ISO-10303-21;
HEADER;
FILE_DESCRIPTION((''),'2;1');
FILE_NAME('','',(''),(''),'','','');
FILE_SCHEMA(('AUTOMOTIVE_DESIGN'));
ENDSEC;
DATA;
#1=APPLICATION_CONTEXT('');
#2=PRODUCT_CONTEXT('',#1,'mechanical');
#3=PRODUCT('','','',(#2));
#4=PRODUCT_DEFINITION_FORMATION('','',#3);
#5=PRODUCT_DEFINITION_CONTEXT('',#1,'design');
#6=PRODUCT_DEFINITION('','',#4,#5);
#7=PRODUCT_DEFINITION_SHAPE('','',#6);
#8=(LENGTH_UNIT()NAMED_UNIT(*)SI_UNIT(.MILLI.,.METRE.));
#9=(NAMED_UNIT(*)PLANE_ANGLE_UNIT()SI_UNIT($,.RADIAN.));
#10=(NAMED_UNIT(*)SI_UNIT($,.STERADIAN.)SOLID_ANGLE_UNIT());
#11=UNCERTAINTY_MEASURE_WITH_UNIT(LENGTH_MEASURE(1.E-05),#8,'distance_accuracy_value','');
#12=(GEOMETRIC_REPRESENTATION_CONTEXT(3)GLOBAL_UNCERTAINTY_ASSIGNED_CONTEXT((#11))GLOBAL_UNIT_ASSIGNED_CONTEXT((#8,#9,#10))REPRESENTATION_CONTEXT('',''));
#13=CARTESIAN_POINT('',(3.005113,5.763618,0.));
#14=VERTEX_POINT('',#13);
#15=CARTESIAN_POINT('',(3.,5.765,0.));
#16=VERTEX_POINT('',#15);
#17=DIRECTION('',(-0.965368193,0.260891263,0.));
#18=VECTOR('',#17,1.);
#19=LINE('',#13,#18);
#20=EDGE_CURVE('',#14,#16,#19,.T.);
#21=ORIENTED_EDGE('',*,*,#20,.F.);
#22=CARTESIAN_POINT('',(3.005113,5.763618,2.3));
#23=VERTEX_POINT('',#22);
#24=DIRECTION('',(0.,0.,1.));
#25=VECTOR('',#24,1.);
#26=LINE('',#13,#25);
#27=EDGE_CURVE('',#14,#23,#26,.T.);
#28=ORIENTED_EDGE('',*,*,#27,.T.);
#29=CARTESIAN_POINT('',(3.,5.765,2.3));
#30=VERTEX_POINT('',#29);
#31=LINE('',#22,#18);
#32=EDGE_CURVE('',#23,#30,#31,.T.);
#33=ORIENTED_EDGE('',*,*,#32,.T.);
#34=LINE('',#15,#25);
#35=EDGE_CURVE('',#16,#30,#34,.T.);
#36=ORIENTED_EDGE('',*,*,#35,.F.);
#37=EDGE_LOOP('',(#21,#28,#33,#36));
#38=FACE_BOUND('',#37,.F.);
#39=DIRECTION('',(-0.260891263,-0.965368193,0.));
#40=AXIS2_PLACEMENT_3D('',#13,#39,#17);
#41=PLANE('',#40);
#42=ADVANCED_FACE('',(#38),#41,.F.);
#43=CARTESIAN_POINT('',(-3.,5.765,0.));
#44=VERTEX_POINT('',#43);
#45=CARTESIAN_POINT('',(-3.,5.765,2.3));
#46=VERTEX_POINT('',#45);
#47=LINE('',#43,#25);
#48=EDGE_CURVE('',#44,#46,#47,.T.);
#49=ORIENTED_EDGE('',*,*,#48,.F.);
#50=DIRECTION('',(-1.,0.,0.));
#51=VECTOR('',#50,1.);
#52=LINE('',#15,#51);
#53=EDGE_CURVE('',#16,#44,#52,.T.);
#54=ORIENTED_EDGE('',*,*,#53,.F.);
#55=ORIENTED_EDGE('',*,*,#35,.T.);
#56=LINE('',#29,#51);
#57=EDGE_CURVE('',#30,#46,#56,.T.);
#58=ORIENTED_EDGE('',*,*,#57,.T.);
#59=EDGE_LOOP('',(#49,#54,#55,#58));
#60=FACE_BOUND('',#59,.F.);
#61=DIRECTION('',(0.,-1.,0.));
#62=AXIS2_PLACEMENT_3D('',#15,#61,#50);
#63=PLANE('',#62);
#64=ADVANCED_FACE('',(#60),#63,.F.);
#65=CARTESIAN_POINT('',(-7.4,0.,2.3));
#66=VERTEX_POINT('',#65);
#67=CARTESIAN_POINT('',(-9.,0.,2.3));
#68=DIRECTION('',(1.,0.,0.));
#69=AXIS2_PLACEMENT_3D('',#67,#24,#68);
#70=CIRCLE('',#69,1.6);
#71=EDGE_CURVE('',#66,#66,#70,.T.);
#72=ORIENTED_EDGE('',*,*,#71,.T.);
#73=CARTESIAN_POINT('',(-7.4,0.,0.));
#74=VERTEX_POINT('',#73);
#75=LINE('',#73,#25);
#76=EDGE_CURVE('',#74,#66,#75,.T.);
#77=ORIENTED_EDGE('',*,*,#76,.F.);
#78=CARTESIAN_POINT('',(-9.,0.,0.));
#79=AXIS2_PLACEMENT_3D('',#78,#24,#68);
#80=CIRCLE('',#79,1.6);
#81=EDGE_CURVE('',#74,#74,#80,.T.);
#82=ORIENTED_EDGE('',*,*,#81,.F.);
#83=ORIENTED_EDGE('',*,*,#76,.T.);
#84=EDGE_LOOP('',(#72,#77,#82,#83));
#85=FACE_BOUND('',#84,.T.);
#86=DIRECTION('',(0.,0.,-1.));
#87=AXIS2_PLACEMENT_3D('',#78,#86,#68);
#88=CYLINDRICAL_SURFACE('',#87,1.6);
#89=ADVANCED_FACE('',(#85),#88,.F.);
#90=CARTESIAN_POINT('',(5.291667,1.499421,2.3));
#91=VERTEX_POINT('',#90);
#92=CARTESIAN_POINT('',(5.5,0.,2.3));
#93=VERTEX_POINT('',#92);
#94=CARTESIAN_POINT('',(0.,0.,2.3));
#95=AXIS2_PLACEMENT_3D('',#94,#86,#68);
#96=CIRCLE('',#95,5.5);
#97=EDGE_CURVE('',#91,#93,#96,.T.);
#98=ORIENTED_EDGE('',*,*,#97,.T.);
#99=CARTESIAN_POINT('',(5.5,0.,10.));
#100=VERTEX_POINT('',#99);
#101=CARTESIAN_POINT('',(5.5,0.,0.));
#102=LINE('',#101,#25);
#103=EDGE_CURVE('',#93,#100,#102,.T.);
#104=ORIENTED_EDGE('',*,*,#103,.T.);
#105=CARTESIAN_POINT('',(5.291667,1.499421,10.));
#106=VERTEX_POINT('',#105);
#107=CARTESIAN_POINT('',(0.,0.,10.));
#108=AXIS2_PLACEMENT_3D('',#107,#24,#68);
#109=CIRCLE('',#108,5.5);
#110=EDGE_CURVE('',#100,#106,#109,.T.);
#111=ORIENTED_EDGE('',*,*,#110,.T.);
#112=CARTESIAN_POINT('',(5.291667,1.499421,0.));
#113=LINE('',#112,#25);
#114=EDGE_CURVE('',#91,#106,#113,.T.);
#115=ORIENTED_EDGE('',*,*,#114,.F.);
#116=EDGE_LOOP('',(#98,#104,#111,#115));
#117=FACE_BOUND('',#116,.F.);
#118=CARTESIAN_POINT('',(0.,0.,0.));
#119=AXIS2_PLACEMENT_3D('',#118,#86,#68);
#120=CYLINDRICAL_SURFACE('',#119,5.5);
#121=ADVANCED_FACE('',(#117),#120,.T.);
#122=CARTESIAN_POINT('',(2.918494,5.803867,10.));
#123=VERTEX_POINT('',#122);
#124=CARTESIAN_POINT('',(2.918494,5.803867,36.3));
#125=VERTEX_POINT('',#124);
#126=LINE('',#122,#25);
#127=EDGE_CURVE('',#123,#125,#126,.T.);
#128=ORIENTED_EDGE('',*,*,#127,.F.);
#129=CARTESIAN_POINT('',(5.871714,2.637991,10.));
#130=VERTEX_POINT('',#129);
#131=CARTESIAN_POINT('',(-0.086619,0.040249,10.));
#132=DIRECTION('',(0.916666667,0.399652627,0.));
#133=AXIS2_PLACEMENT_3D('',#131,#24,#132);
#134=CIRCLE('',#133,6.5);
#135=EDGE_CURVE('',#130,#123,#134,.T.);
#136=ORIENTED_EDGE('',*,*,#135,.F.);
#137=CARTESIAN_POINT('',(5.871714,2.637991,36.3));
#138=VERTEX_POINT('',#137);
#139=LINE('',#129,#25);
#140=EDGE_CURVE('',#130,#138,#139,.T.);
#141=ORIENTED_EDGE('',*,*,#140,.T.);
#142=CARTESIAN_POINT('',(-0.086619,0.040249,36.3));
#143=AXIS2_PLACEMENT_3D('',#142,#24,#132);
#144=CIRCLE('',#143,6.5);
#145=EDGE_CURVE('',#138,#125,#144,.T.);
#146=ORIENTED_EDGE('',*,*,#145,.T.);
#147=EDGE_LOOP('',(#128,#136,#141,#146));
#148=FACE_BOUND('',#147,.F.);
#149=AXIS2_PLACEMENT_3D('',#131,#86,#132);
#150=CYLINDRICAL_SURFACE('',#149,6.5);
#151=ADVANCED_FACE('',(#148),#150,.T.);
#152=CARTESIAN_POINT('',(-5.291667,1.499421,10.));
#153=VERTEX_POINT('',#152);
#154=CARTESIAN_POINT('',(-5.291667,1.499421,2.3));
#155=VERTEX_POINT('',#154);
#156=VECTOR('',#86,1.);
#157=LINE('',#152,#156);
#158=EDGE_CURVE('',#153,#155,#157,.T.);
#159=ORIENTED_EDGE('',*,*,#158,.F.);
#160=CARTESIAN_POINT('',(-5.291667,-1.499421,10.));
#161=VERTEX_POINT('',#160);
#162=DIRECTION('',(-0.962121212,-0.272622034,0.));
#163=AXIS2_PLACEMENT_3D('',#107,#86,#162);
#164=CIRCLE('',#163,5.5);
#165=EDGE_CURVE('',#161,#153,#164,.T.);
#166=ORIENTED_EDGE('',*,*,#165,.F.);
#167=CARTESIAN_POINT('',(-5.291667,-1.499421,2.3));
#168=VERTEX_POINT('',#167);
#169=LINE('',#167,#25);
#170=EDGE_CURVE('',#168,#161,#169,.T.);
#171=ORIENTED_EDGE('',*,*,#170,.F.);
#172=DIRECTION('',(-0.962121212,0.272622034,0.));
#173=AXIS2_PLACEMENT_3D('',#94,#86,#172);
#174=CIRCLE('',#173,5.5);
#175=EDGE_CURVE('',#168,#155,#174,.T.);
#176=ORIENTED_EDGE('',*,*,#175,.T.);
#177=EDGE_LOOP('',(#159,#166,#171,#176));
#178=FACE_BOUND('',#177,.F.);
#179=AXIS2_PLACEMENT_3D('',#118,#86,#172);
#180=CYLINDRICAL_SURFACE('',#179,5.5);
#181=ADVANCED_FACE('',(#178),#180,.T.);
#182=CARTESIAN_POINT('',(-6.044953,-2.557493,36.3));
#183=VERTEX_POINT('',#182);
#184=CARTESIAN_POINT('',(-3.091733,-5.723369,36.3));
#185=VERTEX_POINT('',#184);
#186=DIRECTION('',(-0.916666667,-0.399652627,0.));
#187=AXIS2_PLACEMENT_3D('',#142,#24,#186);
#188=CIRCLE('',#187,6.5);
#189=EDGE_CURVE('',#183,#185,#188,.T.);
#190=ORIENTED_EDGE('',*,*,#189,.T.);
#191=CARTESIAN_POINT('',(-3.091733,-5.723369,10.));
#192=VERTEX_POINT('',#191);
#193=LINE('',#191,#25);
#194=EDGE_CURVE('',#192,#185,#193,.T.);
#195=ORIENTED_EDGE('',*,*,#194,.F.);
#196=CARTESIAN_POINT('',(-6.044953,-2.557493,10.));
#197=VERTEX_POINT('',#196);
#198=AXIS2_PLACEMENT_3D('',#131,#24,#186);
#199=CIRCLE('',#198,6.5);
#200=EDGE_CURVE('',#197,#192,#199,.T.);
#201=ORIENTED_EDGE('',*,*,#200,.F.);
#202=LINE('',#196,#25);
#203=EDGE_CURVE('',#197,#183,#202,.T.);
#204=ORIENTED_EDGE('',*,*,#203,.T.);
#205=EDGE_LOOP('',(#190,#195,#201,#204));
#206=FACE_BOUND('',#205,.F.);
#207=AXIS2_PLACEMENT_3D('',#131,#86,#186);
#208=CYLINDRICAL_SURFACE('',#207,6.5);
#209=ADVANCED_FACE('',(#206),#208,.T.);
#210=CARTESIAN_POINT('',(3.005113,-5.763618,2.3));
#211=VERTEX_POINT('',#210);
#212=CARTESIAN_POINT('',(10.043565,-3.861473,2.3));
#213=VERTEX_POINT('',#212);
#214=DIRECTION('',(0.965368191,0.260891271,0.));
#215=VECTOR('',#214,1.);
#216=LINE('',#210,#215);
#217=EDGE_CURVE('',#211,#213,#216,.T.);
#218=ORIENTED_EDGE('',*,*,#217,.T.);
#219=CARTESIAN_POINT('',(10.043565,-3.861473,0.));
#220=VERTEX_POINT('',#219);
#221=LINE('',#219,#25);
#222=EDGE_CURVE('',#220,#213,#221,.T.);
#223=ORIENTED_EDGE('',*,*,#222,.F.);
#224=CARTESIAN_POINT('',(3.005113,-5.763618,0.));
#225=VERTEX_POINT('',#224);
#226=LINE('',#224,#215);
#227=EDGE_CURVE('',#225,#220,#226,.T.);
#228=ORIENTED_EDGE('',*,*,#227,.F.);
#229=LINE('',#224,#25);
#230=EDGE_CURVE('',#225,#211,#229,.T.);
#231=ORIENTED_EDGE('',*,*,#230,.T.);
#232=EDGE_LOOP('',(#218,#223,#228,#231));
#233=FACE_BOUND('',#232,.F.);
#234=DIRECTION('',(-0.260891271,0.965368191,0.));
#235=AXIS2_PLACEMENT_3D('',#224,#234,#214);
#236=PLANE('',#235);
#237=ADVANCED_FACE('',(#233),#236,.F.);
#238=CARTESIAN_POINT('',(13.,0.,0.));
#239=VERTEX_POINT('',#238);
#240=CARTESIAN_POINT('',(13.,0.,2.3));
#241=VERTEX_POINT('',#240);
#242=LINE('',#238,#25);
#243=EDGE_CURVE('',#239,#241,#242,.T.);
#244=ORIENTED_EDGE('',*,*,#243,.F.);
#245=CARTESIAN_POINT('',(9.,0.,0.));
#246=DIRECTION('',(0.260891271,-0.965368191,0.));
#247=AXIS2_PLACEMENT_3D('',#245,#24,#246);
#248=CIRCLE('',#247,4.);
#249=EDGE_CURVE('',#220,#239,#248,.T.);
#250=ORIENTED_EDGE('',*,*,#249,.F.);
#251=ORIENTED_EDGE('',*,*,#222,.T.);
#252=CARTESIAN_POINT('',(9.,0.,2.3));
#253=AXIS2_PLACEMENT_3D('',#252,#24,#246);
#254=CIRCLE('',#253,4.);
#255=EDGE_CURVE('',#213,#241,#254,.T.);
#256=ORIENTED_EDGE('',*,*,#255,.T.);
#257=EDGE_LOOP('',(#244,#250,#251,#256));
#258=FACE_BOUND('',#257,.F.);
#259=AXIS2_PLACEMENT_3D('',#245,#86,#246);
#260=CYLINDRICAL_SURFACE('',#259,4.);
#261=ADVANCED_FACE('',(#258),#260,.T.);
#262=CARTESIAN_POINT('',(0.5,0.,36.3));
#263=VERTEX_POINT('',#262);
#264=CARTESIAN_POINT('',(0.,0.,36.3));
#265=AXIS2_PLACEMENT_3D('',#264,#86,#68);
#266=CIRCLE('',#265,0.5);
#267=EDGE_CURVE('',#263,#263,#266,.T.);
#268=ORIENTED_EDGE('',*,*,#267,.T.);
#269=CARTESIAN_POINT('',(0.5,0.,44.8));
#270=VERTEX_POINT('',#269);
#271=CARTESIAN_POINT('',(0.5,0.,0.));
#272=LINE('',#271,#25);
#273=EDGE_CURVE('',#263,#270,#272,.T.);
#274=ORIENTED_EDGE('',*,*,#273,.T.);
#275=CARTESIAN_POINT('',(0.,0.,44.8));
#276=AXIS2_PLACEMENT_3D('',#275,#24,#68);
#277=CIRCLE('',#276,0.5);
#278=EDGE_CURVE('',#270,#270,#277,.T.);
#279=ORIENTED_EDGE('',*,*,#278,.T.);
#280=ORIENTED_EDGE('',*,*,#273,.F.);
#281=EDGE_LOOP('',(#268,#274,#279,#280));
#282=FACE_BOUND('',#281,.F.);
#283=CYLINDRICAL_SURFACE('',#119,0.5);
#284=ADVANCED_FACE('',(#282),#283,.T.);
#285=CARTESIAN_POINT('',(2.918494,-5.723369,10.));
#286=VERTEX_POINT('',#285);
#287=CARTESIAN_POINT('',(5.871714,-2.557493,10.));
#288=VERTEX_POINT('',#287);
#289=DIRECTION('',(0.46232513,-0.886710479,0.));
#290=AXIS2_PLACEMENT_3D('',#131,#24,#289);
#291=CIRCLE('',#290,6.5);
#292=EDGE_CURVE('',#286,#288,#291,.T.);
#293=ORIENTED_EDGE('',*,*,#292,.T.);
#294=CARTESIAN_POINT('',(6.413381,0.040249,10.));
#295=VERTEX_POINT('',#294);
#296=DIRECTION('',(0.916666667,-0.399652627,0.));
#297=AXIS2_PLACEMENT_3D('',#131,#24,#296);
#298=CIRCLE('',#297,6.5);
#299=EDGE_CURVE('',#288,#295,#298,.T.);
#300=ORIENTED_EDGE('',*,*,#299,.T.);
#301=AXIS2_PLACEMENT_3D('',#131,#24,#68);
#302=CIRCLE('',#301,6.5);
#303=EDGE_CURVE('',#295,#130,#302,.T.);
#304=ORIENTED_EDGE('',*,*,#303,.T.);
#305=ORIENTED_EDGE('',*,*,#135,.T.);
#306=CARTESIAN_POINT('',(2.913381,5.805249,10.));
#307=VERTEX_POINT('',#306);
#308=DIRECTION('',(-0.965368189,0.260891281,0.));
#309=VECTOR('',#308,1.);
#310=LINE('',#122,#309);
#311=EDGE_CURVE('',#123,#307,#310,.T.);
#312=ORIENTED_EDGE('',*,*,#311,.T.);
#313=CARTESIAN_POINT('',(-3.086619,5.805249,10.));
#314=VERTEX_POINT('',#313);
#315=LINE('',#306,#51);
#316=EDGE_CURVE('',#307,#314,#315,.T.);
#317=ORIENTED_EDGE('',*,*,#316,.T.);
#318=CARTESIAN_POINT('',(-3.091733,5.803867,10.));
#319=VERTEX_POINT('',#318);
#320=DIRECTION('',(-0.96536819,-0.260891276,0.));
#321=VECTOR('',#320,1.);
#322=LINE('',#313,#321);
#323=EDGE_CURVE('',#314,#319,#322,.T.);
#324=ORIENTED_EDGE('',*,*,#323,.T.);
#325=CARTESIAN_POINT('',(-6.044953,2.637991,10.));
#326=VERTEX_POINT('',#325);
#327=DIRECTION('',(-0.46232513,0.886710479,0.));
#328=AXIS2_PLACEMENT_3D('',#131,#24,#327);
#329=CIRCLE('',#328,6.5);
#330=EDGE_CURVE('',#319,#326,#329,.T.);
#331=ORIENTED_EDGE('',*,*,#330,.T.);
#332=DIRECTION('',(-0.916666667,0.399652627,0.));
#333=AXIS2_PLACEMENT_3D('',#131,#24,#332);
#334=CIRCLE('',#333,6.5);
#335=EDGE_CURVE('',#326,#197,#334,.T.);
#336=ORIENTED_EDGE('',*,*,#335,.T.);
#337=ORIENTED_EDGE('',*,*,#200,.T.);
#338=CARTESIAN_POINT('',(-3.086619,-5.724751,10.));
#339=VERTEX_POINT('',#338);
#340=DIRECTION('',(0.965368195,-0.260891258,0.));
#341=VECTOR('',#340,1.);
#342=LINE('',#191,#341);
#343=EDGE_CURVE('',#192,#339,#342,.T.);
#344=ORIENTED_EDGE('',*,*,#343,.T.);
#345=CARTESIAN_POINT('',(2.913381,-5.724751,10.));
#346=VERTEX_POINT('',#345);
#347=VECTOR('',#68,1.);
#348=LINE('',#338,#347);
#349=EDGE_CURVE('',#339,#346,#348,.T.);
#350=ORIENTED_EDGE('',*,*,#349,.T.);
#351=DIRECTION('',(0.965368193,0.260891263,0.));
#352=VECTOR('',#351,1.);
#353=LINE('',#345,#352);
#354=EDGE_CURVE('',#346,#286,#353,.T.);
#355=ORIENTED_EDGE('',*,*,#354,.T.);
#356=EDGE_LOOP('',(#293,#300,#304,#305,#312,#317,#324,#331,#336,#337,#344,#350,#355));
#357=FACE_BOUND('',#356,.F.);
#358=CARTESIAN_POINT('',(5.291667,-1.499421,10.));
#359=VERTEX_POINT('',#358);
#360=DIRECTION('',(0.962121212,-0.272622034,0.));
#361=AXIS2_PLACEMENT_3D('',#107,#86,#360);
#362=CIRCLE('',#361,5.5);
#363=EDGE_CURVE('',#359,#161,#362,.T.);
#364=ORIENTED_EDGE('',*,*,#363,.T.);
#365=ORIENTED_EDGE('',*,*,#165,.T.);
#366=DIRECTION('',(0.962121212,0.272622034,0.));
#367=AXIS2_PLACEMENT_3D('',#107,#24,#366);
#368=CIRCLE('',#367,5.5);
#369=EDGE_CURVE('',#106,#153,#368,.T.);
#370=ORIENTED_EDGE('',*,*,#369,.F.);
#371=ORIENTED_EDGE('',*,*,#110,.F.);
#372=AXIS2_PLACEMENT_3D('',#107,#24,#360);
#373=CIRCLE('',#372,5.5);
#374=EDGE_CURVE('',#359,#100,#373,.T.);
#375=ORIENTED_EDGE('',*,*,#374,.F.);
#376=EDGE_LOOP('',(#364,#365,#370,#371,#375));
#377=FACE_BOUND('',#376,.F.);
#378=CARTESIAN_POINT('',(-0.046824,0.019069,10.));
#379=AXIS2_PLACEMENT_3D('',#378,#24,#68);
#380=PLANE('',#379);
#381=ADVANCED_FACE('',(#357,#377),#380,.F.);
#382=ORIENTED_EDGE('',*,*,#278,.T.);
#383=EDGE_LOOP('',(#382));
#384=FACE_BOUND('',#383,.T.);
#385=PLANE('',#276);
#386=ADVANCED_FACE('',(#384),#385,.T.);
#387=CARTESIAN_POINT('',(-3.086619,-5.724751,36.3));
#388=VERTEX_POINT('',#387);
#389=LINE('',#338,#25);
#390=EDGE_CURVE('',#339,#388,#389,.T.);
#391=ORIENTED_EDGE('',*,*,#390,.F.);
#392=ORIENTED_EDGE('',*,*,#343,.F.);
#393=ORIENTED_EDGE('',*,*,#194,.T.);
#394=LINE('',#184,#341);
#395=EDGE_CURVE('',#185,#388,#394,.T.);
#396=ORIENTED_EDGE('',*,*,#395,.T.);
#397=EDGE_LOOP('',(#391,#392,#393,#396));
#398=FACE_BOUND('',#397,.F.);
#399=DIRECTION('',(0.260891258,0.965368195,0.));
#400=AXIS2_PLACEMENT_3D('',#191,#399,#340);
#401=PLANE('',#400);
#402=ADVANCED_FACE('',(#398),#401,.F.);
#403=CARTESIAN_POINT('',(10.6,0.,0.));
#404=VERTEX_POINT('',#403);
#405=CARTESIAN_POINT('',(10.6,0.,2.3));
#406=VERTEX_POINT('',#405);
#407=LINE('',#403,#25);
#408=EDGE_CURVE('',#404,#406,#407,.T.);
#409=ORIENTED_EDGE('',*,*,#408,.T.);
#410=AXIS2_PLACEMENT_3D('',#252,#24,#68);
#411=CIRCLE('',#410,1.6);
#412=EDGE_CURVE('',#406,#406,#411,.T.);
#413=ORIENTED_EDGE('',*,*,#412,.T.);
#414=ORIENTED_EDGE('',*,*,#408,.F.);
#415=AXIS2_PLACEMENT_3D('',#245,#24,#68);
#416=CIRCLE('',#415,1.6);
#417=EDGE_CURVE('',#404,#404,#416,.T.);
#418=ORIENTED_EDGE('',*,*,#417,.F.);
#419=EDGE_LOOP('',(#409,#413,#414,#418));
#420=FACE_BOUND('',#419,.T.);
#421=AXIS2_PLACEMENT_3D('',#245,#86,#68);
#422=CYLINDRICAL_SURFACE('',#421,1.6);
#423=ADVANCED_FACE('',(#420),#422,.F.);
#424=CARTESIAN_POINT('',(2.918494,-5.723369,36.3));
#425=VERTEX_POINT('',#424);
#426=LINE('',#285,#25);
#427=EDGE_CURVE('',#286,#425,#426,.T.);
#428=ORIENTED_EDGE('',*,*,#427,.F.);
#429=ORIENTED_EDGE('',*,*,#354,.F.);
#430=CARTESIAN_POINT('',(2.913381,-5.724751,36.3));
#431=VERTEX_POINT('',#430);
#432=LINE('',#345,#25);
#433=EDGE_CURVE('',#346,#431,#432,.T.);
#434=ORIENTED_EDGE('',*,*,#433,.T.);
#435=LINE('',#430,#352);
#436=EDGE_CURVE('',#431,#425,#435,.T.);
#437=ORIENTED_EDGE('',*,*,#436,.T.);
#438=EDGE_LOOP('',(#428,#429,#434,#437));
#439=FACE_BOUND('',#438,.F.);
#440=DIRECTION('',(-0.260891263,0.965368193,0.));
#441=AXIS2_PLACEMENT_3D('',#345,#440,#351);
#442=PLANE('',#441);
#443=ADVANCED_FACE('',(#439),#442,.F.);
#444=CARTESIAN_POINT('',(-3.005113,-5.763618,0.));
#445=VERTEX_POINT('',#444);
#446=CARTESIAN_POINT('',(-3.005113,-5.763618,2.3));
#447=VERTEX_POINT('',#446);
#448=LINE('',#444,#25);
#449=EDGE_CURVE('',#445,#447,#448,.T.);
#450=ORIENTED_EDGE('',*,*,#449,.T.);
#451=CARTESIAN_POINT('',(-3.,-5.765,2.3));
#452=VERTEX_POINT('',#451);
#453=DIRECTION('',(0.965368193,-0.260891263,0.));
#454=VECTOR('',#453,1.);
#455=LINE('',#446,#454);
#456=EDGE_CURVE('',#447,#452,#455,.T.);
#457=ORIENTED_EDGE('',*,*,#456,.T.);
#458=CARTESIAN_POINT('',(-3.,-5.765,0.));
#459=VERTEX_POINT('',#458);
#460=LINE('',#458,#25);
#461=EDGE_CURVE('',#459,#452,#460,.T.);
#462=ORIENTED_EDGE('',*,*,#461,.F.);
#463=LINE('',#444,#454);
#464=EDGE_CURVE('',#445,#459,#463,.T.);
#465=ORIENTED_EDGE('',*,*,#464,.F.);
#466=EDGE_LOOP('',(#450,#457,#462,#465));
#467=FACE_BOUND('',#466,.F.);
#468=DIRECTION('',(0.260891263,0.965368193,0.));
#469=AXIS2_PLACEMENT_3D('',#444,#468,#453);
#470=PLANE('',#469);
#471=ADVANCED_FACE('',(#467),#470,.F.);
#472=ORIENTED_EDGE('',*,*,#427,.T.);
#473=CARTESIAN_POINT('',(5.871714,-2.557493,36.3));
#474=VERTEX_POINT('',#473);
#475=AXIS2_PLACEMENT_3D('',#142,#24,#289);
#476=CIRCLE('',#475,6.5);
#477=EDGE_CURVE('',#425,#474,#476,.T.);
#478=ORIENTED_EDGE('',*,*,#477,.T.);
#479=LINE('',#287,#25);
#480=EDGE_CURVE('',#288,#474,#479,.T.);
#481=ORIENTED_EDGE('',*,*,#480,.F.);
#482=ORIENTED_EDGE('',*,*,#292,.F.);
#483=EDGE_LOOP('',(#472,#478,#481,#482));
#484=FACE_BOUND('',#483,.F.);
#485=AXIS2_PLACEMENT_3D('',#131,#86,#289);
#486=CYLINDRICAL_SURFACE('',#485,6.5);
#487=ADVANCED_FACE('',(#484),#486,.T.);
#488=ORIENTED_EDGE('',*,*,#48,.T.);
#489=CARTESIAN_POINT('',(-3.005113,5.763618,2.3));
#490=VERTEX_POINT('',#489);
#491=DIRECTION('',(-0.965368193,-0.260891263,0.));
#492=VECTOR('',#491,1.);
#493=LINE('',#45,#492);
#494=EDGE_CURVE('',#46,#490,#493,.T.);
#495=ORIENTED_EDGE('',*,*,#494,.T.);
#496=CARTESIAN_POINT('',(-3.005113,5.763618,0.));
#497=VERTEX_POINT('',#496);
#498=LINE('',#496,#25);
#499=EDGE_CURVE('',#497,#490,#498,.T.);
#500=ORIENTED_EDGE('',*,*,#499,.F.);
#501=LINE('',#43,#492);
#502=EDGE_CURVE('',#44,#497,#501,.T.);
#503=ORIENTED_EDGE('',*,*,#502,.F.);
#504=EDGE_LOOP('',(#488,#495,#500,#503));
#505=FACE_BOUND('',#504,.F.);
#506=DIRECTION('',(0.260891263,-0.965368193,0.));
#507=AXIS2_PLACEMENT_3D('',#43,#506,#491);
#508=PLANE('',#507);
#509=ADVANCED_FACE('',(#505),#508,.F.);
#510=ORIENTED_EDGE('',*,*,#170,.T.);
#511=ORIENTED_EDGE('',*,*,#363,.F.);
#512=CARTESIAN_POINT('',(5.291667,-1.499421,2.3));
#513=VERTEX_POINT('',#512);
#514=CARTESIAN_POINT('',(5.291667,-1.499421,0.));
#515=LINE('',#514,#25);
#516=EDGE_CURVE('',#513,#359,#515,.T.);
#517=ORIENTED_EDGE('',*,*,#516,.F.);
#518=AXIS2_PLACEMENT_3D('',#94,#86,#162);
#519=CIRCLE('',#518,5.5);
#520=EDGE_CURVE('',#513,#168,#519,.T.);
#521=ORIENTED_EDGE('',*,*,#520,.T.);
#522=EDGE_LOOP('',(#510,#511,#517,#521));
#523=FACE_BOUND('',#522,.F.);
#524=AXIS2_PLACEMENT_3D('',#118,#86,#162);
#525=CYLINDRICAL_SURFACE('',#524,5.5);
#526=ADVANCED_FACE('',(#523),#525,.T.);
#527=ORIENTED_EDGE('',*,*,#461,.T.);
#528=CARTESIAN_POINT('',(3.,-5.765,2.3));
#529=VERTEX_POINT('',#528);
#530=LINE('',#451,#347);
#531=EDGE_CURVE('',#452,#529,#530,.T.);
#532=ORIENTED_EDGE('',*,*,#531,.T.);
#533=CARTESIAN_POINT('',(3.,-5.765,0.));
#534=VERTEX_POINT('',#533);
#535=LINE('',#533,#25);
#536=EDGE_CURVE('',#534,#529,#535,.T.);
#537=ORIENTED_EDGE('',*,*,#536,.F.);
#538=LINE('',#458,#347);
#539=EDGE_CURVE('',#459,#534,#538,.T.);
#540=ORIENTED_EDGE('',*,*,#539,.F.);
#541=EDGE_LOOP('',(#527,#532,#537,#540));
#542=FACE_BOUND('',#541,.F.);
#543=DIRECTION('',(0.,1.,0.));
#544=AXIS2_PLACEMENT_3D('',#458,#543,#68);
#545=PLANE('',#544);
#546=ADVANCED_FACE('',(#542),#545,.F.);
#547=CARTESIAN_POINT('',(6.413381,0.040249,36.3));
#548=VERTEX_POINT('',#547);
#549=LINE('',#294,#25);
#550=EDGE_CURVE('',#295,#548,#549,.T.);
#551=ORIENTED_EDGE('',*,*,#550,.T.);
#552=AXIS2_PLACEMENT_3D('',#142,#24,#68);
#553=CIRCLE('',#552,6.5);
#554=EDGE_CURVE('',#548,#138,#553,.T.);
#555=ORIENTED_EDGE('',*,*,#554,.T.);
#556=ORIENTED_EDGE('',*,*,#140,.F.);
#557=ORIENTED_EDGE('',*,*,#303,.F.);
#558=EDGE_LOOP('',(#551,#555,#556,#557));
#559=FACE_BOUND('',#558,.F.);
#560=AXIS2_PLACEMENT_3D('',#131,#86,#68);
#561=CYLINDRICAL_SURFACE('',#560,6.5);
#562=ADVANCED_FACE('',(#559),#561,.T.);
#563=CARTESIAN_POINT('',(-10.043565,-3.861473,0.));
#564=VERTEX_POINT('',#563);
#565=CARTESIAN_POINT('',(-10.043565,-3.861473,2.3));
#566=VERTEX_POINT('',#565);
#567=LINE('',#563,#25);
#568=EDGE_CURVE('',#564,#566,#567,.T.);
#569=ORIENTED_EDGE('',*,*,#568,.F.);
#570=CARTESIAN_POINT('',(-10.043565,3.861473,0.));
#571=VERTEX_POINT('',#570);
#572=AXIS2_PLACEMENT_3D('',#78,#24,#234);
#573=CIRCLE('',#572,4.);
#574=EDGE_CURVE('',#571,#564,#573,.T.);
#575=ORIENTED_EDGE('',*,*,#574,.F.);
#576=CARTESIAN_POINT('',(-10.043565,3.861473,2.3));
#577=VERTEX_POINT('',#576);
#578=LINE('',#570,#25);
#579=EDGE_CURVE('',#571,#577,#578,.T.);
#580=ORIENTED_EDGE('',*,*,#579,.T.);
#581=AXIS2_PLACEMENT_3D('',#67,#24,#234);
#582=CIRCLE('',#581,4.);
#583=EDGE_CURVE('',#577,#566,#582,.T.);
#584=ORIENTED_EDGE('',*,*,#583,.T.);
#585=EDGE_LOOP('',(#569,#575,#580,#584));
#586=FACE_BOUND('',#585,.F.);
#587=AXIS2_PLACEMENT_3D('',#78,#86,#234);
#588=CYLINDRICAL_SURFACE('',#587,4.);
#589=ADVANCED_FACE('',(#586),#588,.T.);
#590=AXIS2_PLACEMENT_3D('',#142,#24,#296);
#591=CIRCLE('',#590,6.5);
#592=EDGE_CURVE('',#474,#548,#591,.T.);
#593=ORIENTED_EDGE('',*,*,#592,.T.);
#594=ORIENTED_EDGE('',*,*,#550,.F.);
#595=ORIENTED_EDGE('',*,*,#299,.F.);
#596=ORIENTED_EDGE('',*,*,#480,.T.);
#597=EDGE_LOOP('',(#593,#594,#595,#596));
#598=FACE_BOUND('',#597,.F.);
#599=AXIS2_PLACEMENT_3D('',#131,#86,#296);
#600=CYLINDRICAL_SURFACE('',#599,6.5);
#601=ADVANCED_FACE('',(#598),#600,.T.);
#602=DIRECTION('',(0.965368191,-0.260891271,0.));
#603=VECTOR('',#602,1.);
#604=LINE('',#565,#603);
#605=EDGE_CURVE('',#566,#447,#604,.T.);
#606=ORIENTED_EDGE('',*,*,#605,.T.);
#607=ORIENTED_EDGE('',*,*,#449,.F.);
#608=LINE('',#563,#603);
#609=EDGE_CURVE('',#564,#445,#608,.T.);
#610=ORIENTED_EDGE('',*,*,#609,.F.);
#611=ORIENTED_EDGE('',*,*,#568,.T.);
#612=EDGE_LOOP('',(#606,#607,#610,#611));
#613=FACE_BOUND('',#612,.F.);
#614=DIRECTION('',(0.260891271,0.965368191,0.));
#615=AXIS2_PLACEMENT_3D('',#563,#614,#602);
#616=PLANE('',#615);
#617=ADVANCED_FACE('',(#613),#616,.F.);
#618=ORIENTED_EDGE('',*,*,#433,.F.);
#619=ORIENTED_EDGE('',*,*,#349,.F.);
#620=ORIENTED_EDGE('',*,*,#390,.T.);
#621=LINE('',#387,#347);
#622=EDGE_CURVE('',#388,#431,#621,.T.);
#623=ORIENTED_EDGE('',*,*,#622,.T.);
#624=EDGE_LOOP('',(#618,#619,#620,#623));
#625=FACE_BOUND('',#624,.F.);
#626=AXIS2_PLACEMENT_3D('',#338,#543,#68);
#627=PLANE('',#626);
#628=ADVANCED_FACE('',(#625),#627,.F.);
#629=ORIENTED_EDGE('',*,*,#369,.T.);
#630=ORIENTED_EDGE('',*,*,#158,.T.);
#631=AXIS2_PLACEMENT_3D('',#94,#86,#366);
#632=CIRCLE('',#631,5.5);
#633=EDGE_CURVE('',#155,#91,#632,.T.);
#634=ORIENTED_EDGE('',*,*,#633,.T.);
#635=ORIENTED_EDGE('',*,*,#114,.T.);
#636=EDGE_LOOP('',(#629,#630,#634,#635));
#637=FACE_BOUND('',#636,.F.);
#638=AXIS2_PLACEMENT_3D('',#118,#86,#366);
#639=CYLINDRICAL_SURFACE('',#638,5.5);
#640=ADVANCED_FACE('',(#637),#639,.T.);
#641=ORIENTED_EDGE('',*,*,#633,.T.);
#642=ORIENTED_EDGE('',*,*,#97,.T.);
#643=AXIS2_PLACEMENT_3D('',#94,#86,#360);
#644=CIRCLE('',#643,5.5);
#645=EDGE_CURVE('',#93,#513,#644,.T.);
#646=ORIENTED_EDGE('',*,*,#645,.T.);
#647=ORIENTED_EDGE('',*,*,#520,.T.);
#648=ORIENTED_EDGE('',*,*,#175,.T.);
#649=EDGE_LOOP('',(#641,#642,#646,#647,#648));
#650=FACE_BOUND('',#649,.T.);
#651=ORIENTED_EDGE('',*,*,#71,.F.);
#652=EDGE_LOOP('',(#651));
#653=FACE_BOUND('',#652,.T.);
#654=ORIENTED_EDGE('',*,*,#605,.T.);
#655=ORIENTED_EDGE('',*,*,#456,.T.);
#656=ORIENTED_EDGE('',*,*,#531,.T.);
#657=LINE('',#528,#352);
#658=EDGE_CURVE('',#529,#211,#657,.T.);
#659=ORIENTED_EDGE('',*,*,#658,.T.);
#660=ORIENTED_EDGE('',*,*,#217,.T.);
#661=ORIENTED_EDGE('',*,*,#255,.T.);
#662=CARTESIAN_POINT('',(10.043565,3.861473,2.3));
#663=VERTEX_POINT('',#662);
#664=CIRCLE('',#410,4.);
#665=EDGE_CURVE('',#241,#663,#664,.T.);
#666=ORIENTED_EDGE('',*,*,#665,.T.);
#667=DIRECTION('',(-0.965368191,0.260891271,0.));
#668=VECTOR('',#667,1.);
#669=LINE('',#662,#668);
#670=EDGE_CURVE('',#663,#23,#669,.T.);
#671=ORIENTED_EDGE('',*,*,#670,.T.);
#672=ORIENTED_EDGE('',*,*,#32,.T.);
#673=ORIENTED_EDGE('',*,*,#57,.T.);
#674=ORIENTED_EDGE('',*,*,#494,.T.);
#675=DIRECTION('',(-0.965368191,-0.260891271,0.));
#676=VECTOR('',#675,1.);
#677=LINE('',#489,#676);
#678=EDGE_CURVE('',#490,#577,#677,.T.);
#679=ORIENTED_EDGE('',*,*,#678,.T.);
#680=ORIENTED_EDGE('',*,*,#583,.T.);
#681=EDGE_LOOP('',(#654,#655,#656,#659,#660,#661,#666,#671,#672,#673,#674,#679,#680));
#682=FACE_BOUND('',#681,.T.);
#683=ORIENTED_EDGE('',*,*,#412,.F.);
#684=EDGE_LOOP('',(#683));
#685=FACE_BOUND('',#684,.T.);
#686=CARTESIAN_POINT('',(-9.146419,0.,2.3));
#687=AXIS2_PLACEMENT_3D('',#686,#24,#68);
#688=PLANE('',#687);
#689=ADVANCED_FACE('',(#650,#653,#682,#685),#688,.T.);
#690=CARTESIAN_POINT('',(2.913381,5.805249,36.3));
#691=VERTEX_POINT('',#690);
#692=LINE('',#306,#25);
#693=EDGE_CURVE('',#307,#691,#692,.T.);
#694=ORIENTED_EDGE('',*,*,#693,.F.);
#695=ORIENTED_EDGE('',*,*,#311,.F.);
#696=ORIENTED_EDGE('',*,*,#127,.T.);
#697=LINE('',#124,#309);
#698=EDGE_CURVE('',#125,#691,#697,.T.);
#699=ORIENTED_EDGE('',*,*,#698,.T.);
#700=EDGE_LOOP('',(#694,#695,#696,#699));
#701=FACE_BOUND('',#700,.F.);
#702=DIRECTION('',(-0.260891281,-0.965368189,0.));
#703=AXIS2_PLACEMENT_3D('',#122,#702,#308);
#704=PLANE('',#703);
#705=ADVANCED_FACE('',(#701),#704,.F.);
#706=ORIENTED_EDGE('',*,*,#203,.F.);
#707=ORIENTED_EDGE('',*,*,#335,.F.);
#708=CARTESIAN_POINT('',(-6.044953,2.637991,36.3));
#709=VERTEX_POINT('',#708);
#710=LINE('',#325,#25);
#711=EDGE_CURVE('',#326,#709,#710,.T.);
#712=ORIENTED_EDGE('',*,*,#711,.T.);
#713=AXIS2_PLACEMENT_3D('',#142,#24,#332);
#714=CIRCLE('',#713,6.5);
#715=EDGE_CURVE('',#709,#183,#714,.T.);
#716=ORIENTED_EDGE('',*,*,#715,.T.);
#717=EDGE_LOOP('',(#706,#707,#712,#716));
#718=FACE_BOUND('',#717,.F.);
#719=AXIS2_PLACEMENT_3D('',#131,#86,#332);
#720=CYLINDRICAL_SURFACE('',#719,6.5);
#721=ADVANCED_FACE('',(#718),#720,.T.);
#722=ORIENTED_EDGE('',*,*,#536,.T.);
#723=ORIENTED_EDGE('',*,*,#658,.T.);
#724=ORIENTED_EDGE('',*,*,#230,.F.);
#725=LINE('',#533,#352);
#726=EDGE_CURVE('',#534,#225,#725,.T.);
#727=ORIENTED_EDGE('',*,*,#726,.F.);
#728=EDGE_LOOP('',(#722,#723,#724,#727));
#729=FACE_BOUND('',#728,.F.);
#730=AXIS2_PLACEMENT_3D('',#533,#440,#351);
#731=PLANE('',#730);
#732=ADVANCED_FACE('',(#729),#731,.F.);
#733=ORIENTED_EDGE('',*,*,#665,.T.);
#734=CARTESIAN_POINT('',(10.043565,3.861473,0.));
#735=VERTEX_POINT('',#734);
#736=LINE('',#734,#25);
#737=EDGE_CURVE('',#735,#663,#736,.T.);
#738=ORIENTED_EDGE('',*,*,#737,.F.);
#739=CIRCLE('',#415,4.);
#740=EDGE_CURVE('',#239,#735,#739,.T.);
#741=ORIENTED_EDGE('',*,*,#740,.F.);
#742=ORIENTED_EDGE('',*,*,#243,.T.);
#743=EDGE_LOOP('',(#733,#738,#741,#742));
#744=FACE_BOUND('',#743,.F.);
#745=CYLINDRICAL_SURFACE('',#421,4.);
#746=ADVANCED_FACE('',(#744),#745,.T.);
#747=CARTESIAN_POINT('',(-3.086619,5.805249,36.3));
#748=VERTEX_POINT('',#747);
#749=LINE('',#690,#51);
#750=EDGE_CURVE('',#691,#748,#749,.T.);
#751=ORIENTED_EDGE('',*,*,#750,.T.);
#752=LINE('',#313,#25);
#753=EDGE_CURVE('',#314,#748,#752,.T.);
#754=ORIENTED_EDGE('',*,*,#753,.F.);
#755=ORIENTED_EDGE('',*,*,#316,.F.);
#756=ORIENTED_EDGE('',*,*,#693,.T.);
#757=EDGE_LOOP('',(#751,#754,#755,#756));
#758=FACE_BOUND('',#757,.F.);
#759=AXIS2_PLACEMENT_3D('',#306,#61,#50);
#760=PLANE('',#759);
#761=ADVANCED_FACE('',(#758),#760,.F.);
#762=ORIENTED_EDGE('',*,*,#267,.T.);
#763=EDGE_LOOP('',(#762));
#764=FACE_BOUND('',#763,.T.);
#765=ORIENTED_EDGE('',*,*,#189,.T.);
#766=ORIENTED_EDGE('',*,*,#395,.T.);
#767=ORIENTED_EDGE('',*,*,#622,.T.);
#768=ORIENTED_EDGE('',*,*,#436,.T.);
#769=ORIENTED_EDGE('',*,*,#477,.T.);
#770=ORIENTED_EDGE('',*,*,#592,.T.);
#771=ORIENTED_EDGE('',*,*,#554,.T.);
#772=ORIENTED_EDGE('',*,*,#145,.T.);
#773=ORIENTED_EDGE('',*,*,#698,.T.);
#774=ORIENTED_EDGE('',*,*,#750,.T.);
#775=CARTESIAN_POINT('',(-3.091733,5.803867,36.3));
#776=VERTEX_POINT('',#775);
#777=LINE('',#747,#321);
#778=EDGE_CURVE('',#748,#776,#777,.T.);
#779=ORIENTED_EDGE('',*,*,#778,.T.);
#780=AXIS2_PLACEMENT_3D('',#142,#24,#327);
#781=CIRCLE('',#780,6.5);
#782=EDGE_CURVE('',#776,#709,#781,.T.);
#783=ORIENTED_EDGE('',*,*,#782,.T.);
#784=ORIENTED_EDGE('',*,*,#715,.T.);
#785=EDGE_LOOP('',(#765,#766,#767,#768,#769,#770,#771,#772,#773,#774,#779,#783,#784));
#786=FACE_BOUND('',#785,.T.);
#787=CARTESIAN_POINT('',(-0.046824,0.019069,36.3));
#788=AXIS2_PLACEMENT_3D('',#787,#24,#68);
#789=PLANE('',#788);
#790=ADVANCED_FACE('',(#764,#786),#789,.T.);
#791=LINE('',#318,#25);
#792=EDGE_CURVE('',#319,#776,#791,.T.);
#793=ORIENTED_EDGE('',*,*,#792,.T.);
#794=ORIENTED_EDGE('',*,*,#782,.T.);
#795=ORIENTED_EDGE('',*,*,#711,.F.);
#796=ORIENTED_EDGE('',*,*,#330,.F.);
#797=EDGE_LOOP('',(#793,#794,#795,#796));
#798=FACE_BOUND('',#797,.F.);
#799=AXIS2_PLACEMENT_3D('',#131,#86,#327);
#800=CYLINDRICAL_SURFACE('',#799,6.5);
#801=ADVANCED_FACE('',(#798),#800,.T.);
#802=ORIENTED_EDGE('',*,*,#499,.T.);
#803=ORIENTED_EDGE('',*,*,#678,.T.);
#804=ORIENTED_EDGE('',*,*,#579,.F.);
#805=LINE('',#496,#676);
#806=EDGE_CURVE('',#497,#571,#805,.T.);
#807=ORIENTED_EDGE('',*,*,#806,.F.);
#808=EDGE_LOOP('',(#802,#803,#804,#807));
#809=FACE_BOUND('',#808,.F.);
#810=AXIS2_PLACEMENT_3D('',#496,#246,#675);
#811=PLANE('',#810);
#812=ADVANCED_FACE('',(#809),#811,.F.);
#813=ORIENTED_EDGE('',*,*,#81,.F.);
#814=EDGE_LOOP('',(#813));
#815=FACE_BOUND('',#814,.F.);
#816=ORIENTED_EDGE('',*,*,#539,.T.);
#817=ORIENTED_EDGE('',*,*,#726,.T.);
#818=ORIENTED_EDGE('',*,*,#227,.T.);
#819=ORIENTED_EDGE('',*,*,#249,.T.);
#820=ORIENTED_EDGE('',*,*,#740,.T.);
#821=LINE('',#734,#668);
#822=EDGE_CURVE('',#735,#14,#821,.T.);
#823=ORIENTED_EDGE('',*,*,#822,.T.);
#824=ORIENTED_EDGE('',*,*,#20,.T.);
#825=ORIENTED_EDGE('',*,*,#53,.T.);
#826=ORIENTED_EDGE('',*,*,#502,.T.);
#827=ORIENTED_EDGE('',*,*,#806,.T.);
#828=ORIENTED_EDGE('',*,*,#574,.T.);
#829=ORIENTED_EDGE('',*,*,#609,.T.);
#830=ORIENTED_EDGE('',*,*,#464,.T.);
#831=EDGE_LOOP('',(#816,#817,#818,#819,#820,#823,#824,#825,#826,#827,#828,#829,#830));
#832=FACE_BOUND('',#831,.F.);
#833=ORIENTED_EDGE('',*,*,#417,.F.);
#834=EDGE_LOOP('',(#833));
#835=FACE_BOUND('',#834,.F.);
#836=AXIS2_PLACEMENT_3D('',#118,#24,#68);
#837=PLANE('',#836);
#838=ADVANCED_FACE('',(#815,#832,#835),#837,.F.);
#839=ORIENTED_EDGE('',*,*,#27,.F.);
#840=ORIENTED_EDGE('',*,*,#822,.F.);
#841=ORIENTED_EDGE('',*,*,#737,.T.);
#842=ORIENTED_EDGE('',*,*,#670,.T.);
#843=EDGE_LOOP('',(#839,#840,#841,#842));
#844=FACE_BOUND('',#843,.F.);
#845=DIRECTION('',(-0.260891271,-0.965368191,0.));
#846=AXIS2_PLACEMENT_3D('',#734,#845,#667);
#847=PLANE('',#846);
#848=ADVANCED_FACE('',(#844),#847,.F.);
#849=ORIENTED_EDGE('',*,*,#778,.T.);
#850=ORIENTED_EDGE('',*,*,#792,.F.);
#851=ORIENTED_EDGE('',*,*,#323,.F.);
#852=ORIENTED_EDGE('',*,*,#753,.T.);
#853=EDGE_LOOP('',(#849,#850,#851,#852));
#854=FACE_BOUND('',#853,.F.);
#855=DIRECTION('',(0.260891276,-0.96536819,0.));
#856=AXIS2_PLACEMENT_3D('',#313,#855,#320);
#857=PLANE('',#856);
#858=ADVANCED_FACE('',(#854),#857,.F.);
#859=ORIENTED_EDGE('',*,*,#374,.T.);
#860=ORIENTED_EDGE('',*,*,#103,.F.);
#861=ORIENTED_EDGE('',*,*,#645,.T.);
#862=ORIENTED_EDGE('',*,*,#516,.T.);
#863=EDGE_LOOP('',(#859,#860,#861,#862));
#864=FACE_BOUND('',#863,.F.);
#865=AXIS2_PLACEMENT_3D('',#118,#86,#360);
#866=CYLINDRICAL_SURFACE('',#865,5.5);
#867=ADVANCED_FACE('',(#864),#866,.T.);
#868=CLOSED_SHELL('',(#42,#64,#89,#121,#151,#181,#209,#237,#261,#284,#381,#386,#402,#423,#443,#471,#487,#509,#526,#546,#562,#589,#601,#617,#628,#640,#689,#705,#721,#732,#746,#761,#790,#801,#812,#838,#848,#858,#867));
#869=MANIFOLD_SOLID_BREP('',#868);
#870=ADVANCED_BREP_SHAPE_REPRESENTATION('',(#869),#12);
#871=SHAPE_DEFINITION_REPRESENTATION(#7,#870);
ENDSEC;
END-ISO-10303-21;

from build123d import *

# Parameters (mm, degrees)
F0_R     = 1.6
F0_R_2   = 0.5
F1_DEPTH = 2.3
F2_DEPTH = 10
F3_R     = 0.5
F4_DEPTH = 26.3
F5_DEPTH = 44.8
F6_R     = 0.5
F7_DEPTH = 2.5


with BuildPart() as f1:
    # F0 (on Top) → F1 (new body)
    with BuildSketch(Plane.XY):
        with BuildLine():
            ThreePointArc((-5.9583333333, 2.5977420751), (-7.8179017385, 3.8213405632), (-10.0435650822, 3.8614727656))
            ThreePointArc((-10.0435650822, 3.8614727656), (-13, 0), (-10.0435650822, -3.8614727656))
            ThreePointArc((-10.0435650822, -3.8614727656), (-7.8179017385, -3.8213405632), (-5.9583333333, -2.5977420751))
            ThreePointArc((-5.9583333333, -2.5977420751), (-6.5, 0), (-5.9583333333, 2.5977420751))
        make_face()
        with Locations((-9, 0)):
            Circle(F0_R, mode=Mode.SUBTRACT)
        with BuildLine():
            ThreePointArc((-5.9583333333, 2.5977420751), (-4.7530555292, 4.4337865461), (-3.0051133447, 5.7636181159))
            Line((-3.0051133447, 5.7636181159), (-10.0435650822, 3.8614727656))
            ThreePointArc((-10.0435650822, 3.8614727656), (-7.8179017385, 3.8213405632), (-5.9583333333, 2.5977420751))
        make_face()
        with BuildLine():
            ThreePointArc((-5.2916666667, -1.4994211846), (-5.5, 0), (-5.2916666667, 1.4994211846))
            ThreePointArc((-5.2916666667, 1.4994211846), (-5.5806137693, 2.0755235015), (-5.9583333333, 2.5977420751))
            ThreePointArc((-5.9583333333, 2.5977420751), (-6.5, 0), (-5.9583333333, -2.5977420751))
            ThreePointArc((-5.9583333333, -2.5977420751), (-5.5806137693, -2.0755235015), (-5.2916666667, -1.4994211846))
        make_face()
        with BuildLine():
            ThreePointArc((-5, 0), (-5.0735936702, 0.7637626158), (-5.2916666667, 1.4994211846))
            ThreePointArc((-5.2916666667, 1.4994211846), (-5.5, 0), (-5.2916666667, -1.4994211846))
            ThreePointArc((-5.2916666667, -1.4994211846), (-5.0735936702, -0.7637626158), (-5, 0))
        make_face()
        with BuildLine():
            Line((-10.0435650822, -3.8614727656), (-3.0051133447, -5.7636181159))
            ThreePointArc((-3.0051133447, -5.7636181159), (-4.7530555292, -4.4337865461), (-5.9583333333, -2.5977420751))
            ThreePointArc((-5.9583333333, -2.5977420751), (-7.8179017385, -3.8213405632), (-10.0435650822, -3.8614727656))
        make_face()
        with BuildLine():
            ThreePointArc((3.0051133447, -5.7636181159), (4.7530555292, -4.4337865461), (5.9583333333, -2.5977420751))
            ThreePointArc((5.9583333333, -2.5977420751), (5.5806137693, -2.0755235015), (5.2916666667, -1.4994211846))
            ThreePointArc((5.2916666667, -1.4994211846), (0, -5.5), (-5.2916666667, -1.4994211846))
            ThreePointArc((-5.2916666667, -1.4994211846), (-5.5806137693, -2.0755235015), (-5.9583333333, -2.5977420751))
            ThreePointArc((-5.9583333333, -2.5977420751), (-4.7530555292, -4.4337865461), (-3.0051133447, -5.7636181159))
            Line((-3.0051133447, -5.7636181159), (-3, -5.765))
            Line((-3, -5.765), (3, -5.765))
            Line((3, -5.765), (3.0051133447, -5.7636181159))
        make_face()
        with BuildLine():
            ThreePointArc((5.2916666667, -1.4994211846), (5, 0), (5.2916666667, 1.4994211846))
            ThreePointArc((5.2916666667, 1.4994211846), (0, 5.5), (-5.2916666667, 1.4994211846))
            ThreePointArc((-5.2916666667, 1.4994211846), (-5.0735936702, 0.7637626158), (-5, 0))
            ThreePointArc((-5, 0), (-5.0735936702, -0.7637626158), (-5.2916666667, -1.4994211846))
            ThreePointArc((-5.2916666667, -1.4994211846), (0, -5.5), (5.2916666667, -1.4994211846))
        make_face()
        Circle(F0_R_2, mode=Mode.SUBTRACT)
        with BuildLine():
            ThreePointArc((5.2916666667, 1.4994211846), (5.5806137693, 2.0755235015), (5.9583333333, 2.5977420751))
            ThreePointArc((5.9583333333, 2.5977420751), (4.7530555292, 4.4337865461), (3.0051133447, 5.7636181159))
            Line((3.0051133447, 5.7636181159), (3, 5.765))
            Line((3, 5.765), (-3, 5.765))
            Line((-3, 5.765), (-3.0051133447, 5.7636181159))
            ThreePointArc((-3.0051133447, 5.7636181159), (-4.7530555292, 4.4337865461), (-5.9583333333, 2.5977420751))
            ThreePointArc((-5.9583333333, 2.5977420751), (-5.5806137693, 2.0755235015), (-5.2916666667, 1.4994211846))
            ThreePointArc((-5.2916666667, 1.4994211846), (0, 5.5), (5.2916666667, 1.4994211846))
        make_face()
        with BuildLine():
            ThreePointArc((5.9583333333, 2.5977420751), (7.8179017385, 3.8213405632), (10.0435650822, 3.8614727656))
            Line((10.0435650822, 3.8614727656), (3.0051133447, 5.7636181159))
            ThreePointArc((3.0051133447, 5.7636181159), (4.7530555292, 4.4337865461), (5.9583333333, 2.5977420751))
        make_face()
        with BuildLine():
            ThreePointArc((5.5, 0), (5.4476676967, 0.7569125885), (5.2916666667, 1.4994211846))
            ThreePointArc((5.2916666667, 1.4994211846), (5, 0), (5.2916666667, -1.4994211846))
            ThreePointArc((5.2916666667, -1.4994211846), (5.4476676967, -0.7569125885), (5.5, 0))
        make_face()
        with BuildLine():
            ThreePointArc((6.5, 0), (6.3631425674, 1.326806944), (5.9583333333, 2.5977420751))
            ThreePointArc((5.9583333333, 2.5977420751), (5.5806137693, 2.0755235015), (5.2916666667, 1.4994211846))
            ThreePointArc((5.2916666667, 1.4994211846), (5.4476676967, 0.7569125885), (5.5, 0))
            ThreePointArc((5.5, 0), (5.4476676967, -0.7569125885), (5.2916666667, -1.4994211846))
            ThreePointArc((5.2916666667, -1.4994211846), (5.5806137693, -2.0755235015), (5.9583333333, -2.5977420751))
            ThreePointArc((5.9583333333, -2.5977420751), (6.3631425674, -1.326806944), (6.5, 0))
        make_face()
        with BuildLine():
            ThreePointArc((10.0435650822, -3.8614727656), (12.1760242701, -2.4316393309), (13, 0))
            ThreePointArc((13, 0), (12.1760242701, 2.4316393309), (10.0435650822, 3.8614727656))
            ThreePointArc((10.0435650822, 3.8614727656), (7.8179017385, 3.8213405632), (5.9583333333, 2.5977420751))
            ThreePointArc((5.9583333333, 2.5977420751), (6.3631425674, 1.326806944), (6.5, 0))
            ThreePointArc((6.5, 0), (6.3631425674, -1.326806944), (5.9583333333, -2.5977420751))
            ThreePointArc((5.9583333333, -2.5977420751), (7.8179017385, -3.8213405632), (10.0435650822, -3.8614727656))
        make_face()
        with Locations((9, 0)):
            Circle(F0_R, mode=Mode.SUBTRACT)
        with BuildLine():
            Line((3.0051133447, -5.7636181159), (10.0435650822, -3.8614727656))
            ThreePointArc((10.0435650822, -3.8614727656), (7.8179017385, -3.8213405632), (5.9583333333, -2.5977420751))
            ThreePointArc((5.9583333333, -2.5977420751), (4.7530555292, -4.4337865461), (3.0051133447, -5.7636181159))
        make_face()
    extrude(amount=F1_DEPTH)

    # F0 (on Top) → F2 (join)
    with BuildSketch(Plane.XY):
        with BuildLine():
            ThreePointArc((5.2916666667, -1.4994211846), (5, 0), (5.2916666667, 1.4994211846))
            ThreePointArc((5.2916666667, 1.4994211846), (0, 5.5), (-5.2916666667, 1.4994211846))
            ThreePointArc((-5.2916666667, 1.4994211846), (-5.0735936702, 0.7637626158), (-5, 0))
            ThreePointArc((-5, 0), (-5.0735936702, -0.7637626158), (-5.2916666667, -1.4994211846))
            ThreePointArc((-5.2916666667, -1.4994211846), (0, -5.5), (5.2916666667, -1.4994211846))
        make_face()
        Circle(F0_R_2, mode=Mode.SUBTRACT)
        Circle(F0_R_2)
        with BuildLine():
            ThreePointArc((-5, 0), (-5.0735936702, 0.7637626158), (-5.2916666667, 1.4994211846))
            ThreePointArc((-5.2916666667, 1.4994211846), (-5.5, 0), (-5.2916666667, -1.4994211846))
            ThreePointArc((-5.2916666667, -1.4994211846), (-5.0735936702, -0.7637626158), (-5, 0))
        make_face()
        with BuildLine():
            ThreePointArc((5.5, 0), (5.4476676967, 0.7569125885), (5.2916666667, 1.4994211846))
            ThreePointArc((5.2916666667, 1.4994211846), (5, 0), (5.2916666667, -1.4994211846))
            ThreePointArc((5.2916666667, -1.4994211846), (5.4476676967, -0.7569125885), (5.5, 0))
        make_face()
    extrude(amount=F2_DEPTH)

    # F3 (on face) → F4 (join)
    with BuildSketch(Plane.XY.offset(10)):
        with BuildLine():
            ThreePointArc((5.2050472789, -1.4591722497), (4.9133806123, 0.040248935), (5.2050472789, 1.5396701196))
            ThreePointArc((5.2050472789, 1.5396701196), (4.1142515453, 3.5902747665), (2.2742683579, 5.0077643152))
            ThreePointArc((2.2742683579, 5.0077643152), (-2.364863611, 4.9656238381), (-5.3213602345, 1.3903687478))
            ThreePointArc((-5.3213602345, 1.3903687478), (-5.1457415279, 0.7254362769), (-5.0866193877, 0.040248935))
            ThreePointArc((-5.0866193877, 0.040248935), (-5.1488151768, -0.662387526), (-5.3334683859, -1.3431734724))
            ThreePointArc((-5.3334683859, -1.3431734724), (-4.2526159756, -3.4878728997), (-2.3608877456, -4.9675153802))
            ThreePointArc((-2.3608877456, -4.9675153802), (2.2270986199, -4.949411272), (5.2050472789, -1.4591722497))
        make_face()
        with Locations((-0.0866193877, 0.040248935)):
            Circle(F3_R, mode=Mode.SUBTRACT)
        with BuildLine():
            ThreePointArc((5.2487200718, 1.6434529528), (5.5235454188, 2.1636936272), (5.8717139456, 2.6379910101))
            ThreePointArc((5.8717139456, 2.6379910101), (4.6664361415, 4.474035481), (2.918493957, 5.8038670508))
            Line((2.918493957, 5.8038670508), (2.9133806123, 5.805248935))
            Line((2.9133806123, 5.805248935), (-3.0866193877, 5.805248935))
            Line((-3.0866193877, 5.805248935), (-3.0917327325, 5.8038670508))
            ThreePointArc((-3.0917327325, 5.8038670508), (-4.839674917, 4.474035481), (-6.0449527211, 2.6379910101))
            ThreePointArc((-6.0449527211, 2.6379910101), (-5.667233157, 2.1157724365), (-5.3782860544, 1.5396701196))
            ThreePointArc((-5.3782860544, 1.5396701196), (-2.3569245673, 5.0498112304), (2.2742683579, 5.0077643152))
            ThreePointArc((2.2742683579, 5.0077643152), (4.1204959002, 3.6430088575), (5.2487200718, 1.6434529528))
        make_face()
        with BuildLine():
            ThreePointArc((2.918493957, -5.7233691809), (4.6664361415, -4.3935376111), (5.8717139456, -2.5574931402))
            ThreePointArc((5.8717139456, -2.5574931402), (5.5331684294, -2.0984809683), (5.2633479593, -1.5959850435))
            ThreePointArc((5.2633479593, -1.5959850435), (2.2243814929, -5.0301219641), (-2.3608877456, -4.9675153802))
            ThreePointArc((-2.3608877456, -4.9675153802), (-4.2565068058, -3.5461195515), (-5.3782860544, -1.4591722497))
            ThreePointArc((-5.3782860544, -1.4591722497), (-5.667233157, -2.0352745666), (-6.0449527211, -2.5574931402))
            ThreePointArc((-6.0449527211, -2.5574931402), (-4.839674917, -4.3935376111), (-3.0917327325, -5.7233691809))
            Line((-3.0917327325, -5.7233691809), (-3.0866193877, -5.724751065))
            Line((-3.0866193877, -5.724751065), (2.9133806123, -5.724751065))
            Line((2.9133806123, -5.724751065), (2.918493957, -5.7233691809))
        make_face()
        with BuildLine():
            ThreePointArc((-5.3782860544, 1.5396701196), (-5.667233157, 2.1157724365), (-6.0449527211, 2.6379910101))
            ThreePointArc((-6.0449527211, 2.6379910101), (-6.5866193877, 0.040248935), (-6.0449527211, -2.5574931402))
            ThreePointArc((-6.0449527211, -2.5574931402), (-5.667233157, -2.0352745666), (-5.3782860544, -1.4591722497))
            ThreePointArc((-5.3782860544, -1.4591722497), (-5.5866193877, 0.040248935), (-5.3782860544, 1.5396701196))
        make_face()
        with BuildLine():
            ThreePointArc((6.4133806123, 0.040248935), (6.2765231797, 1.367055879), (5.8717139456, 2.6379910101))
            ThreePointArc((5.8717139456, 2.6379910101), (5.5235454188, 2.1636936272), (5.2487200718, 1.6434529528))
            ThreePointArc((5.2487200718, 1.6434529528), (5.4368171017, 0.8312760087), (5.5, 0))
            ThreePointArc((5.5, 0), (5.4405153146, -0.806717492), (5.2633479593, -1.5959850435))
            ThreePointArc((5.2633479593, -1.5959850435), (5.5331684294, -2.0984809683), (5.8717139456, -2.5574931402))
            ThreePointArc((5.8717139456, -2.5574931402), (6.2765231797, -1.286558009), (6.4133806123, 0.040248935))
        make_face()
        with BuildLine():
            ThreePointArc((5.4133806123, 0.040248935), (5.3610483089, 0.7971615235), (5.2050472789, 1.5396701196))
            ThreePointArc((5.2050472789, 1.5396701196), (4.9133806123, 0.040248935), (5.2050472789, -1.4591722497))
            ThreePointArc((5.2050472789, -1.4591722497), (5.3610483089, -0.7166636536), (5.4133806123, 0.040248935))
        make_face()
        with Locations((-0.0866193877, 0.040248935)):
            Circle(F3_R)
        with BuildLine():
            ThreePointArc((-5.0866193877, 0.040248935), (-5.1457415279, 0.7254362769), (-5.3213602345, 1.3903687478))
            ThreePointArc((-5.3213602345, 1.3903687478), (-5.4999460452, 0.0243618623), (-5.3334683859, -1.3431734724))
            ThreePointArc((-5.3334683859, -1.3431734724), (-5.1488151768, -0.662387526), (-5.0866193877, 0.040248935))
        make_face()
        with BuildLine():
            ThreePointArc((-5.3213602345, 1.3903687478), (-2.364863611, 4.9656238381), (2.2742683579, 5.0077643152))
            ThreePointArc((2.2742683579, 5.0077643152), (-2.3569245673, 5.0498112304), (-5.3782860544, 1.5396701196))
            ThreePointArc((-5.3782860544, 1.5396701196), (-5.3490775634, 1.4653037098), (-5.3213602345, 1.3903687478))
        make_face()
        with BuildLine():
            ThreePointArc((-2.3608877456, -4.9675153802), (2.2243814929, -5.0301219641), (5.2633479593, -1.5959850435))
            ThreePointArc((5.2633479593, -1.5959850435), (5.2335617401, -1.5278496167), (5.2050472789, -1.4591722497))
            ThreePointArc((5.2050472789, -1.4591722497), (2.2270986199, -4.949411272), (-2.3608877456, -4.9675153802))
        make_face()
        with BuildLine():
            ThreePointArc((5.5, 0), (5.4368171017, 0.8312760087), (5.2487200718, 1.6434529528))
            ThreePointArc((5.2487200718, 1.6434529528), (5.2265184796, 1.591715214), (5.2050472789, 1.5396701196))
            ThreePointArc((5.2050472789, 1.5396701196), (5.3610483089, 0.7971615235), (5.4133806123, 0.040248935))
            ThreePointArc((5.4133806123, 0.040248935), (5.3610483089, -0.7166636536), (5.2050472789, -1.4591722497))
            ThreePointArc((5.2050472789, -1.4591722497), (5.2335617401, -1.5278496167), (5.2633479593, -1.5959850435))
            ThreePointArc((5.2633479593, -1.5959850435), (5.4405153146, -0.806717492), (5.5, 0))
        make_face()
        with BuildLine():
            ThreePointArc((-5.3213602345, 1.3903687478), (-5.3490775634, 1.4653037098), (-5.3782860544, 1.5396701196))
            ThreePointArc((-5.3782860544, 1.5396701196), (-5.5866193877, 0.040248935), (-5.3782860544, -1.4591722497))
            ThreePointArc((-5.3782860544, -1.4591722497), (-5.3554264082, -1.4013470382), (-5.3334683859, -1.3431734724))
            ThreePointArc((-5.3334683859, -1.3431734724), (-5.4999460452, 0.0243618623), (-5.3213602345, 1.3903687478))
        make_face()
        with BuildLine():
            ThreePointArc((-5.3782860544, -1.4591722497), (-4.2565068058, -3.5461195515), (-2.3608877456, -4.9675153802))
            ThreePointArc((-2.3608877456, -4.9675153802), (-4.2526159756, -3.4878728997), (-5.3334683859, -1.3431734724))
            ThreePointArc((-5.3334683859, -1.3431734724), (-5.3554264082, -1.4013470382), (-5.3782860544, -1.4591722497))
        make_face()
        with BuildLine():
            ThreePointArc((5.2050472789, 1.5396701196), (5.2265184796, 1.591715214), (5.2487200718, 1.6434529528))
            ThreePointArc((5.2487200718, 1.6434529528), (4.1204959002, 3.6430088575), (2.2742683579, 5.0077643152))
            ThreePointArc((2.2742683579, 5.0077643152), (4.1142515453, 3.5902747665), (5.2050472789, 1.5396701196))
        make_face()
    extrude(amount=F4_DEPTH)

    # F0 (on Top) → F5 (join)
    with BuildSketch(Plane.XY):
        Circle(F0_R_2)
    extrude(amount=F5_DEPTH)

    # F6 (on face) → F7 (join, symmetric)
    with BuildSketch(Plane.XY.offset(10)):
        with BuildLine():
            ThreePointArc((-2.3608877456, -4.9675153802), (2.2270986199, -4.949411272), (5.2050472789, -1.4591722497))
            ThreePointArc((5.2050472789, -1.4591722497), (4.9133806123, 0.040248935), (5.2050472789, 1.5396701196))
            ThreePointArc((5.2050472789, 1.5396701196), (4.1142515453, 3.5902747665), (2.2742683579, 5.0077643152))
            ThreePointArc((2.2742683579, 5.0077643152), (-2.364863611, 4.9656238381), (-5.3213602345, 1.3903687478))
            ThreePointArc((-5.3213602345, 1.3903687478), (-5.1457415279, 0.7254362769), (-5.0866193877, 0.040248935))
            ThreePointArc((-5.0866193877, 0.040248935), (-5.1488151768, -0.662387526), (-5.3334683859, -1.3431734724))
            ThreePointArc((-5.3334683859, -1.3431734724), (-4.2526159756, -3.4878728997), (-2.3608877456, -4.9675153802))
        make_face()
        with Locations((-0.0866193877, 0.040248935)):
            Circle(F6_R, mode=Mode.SUBTRACT)
    extrude(amount=F7_DEPTH, both=True)


solid = f1.part
